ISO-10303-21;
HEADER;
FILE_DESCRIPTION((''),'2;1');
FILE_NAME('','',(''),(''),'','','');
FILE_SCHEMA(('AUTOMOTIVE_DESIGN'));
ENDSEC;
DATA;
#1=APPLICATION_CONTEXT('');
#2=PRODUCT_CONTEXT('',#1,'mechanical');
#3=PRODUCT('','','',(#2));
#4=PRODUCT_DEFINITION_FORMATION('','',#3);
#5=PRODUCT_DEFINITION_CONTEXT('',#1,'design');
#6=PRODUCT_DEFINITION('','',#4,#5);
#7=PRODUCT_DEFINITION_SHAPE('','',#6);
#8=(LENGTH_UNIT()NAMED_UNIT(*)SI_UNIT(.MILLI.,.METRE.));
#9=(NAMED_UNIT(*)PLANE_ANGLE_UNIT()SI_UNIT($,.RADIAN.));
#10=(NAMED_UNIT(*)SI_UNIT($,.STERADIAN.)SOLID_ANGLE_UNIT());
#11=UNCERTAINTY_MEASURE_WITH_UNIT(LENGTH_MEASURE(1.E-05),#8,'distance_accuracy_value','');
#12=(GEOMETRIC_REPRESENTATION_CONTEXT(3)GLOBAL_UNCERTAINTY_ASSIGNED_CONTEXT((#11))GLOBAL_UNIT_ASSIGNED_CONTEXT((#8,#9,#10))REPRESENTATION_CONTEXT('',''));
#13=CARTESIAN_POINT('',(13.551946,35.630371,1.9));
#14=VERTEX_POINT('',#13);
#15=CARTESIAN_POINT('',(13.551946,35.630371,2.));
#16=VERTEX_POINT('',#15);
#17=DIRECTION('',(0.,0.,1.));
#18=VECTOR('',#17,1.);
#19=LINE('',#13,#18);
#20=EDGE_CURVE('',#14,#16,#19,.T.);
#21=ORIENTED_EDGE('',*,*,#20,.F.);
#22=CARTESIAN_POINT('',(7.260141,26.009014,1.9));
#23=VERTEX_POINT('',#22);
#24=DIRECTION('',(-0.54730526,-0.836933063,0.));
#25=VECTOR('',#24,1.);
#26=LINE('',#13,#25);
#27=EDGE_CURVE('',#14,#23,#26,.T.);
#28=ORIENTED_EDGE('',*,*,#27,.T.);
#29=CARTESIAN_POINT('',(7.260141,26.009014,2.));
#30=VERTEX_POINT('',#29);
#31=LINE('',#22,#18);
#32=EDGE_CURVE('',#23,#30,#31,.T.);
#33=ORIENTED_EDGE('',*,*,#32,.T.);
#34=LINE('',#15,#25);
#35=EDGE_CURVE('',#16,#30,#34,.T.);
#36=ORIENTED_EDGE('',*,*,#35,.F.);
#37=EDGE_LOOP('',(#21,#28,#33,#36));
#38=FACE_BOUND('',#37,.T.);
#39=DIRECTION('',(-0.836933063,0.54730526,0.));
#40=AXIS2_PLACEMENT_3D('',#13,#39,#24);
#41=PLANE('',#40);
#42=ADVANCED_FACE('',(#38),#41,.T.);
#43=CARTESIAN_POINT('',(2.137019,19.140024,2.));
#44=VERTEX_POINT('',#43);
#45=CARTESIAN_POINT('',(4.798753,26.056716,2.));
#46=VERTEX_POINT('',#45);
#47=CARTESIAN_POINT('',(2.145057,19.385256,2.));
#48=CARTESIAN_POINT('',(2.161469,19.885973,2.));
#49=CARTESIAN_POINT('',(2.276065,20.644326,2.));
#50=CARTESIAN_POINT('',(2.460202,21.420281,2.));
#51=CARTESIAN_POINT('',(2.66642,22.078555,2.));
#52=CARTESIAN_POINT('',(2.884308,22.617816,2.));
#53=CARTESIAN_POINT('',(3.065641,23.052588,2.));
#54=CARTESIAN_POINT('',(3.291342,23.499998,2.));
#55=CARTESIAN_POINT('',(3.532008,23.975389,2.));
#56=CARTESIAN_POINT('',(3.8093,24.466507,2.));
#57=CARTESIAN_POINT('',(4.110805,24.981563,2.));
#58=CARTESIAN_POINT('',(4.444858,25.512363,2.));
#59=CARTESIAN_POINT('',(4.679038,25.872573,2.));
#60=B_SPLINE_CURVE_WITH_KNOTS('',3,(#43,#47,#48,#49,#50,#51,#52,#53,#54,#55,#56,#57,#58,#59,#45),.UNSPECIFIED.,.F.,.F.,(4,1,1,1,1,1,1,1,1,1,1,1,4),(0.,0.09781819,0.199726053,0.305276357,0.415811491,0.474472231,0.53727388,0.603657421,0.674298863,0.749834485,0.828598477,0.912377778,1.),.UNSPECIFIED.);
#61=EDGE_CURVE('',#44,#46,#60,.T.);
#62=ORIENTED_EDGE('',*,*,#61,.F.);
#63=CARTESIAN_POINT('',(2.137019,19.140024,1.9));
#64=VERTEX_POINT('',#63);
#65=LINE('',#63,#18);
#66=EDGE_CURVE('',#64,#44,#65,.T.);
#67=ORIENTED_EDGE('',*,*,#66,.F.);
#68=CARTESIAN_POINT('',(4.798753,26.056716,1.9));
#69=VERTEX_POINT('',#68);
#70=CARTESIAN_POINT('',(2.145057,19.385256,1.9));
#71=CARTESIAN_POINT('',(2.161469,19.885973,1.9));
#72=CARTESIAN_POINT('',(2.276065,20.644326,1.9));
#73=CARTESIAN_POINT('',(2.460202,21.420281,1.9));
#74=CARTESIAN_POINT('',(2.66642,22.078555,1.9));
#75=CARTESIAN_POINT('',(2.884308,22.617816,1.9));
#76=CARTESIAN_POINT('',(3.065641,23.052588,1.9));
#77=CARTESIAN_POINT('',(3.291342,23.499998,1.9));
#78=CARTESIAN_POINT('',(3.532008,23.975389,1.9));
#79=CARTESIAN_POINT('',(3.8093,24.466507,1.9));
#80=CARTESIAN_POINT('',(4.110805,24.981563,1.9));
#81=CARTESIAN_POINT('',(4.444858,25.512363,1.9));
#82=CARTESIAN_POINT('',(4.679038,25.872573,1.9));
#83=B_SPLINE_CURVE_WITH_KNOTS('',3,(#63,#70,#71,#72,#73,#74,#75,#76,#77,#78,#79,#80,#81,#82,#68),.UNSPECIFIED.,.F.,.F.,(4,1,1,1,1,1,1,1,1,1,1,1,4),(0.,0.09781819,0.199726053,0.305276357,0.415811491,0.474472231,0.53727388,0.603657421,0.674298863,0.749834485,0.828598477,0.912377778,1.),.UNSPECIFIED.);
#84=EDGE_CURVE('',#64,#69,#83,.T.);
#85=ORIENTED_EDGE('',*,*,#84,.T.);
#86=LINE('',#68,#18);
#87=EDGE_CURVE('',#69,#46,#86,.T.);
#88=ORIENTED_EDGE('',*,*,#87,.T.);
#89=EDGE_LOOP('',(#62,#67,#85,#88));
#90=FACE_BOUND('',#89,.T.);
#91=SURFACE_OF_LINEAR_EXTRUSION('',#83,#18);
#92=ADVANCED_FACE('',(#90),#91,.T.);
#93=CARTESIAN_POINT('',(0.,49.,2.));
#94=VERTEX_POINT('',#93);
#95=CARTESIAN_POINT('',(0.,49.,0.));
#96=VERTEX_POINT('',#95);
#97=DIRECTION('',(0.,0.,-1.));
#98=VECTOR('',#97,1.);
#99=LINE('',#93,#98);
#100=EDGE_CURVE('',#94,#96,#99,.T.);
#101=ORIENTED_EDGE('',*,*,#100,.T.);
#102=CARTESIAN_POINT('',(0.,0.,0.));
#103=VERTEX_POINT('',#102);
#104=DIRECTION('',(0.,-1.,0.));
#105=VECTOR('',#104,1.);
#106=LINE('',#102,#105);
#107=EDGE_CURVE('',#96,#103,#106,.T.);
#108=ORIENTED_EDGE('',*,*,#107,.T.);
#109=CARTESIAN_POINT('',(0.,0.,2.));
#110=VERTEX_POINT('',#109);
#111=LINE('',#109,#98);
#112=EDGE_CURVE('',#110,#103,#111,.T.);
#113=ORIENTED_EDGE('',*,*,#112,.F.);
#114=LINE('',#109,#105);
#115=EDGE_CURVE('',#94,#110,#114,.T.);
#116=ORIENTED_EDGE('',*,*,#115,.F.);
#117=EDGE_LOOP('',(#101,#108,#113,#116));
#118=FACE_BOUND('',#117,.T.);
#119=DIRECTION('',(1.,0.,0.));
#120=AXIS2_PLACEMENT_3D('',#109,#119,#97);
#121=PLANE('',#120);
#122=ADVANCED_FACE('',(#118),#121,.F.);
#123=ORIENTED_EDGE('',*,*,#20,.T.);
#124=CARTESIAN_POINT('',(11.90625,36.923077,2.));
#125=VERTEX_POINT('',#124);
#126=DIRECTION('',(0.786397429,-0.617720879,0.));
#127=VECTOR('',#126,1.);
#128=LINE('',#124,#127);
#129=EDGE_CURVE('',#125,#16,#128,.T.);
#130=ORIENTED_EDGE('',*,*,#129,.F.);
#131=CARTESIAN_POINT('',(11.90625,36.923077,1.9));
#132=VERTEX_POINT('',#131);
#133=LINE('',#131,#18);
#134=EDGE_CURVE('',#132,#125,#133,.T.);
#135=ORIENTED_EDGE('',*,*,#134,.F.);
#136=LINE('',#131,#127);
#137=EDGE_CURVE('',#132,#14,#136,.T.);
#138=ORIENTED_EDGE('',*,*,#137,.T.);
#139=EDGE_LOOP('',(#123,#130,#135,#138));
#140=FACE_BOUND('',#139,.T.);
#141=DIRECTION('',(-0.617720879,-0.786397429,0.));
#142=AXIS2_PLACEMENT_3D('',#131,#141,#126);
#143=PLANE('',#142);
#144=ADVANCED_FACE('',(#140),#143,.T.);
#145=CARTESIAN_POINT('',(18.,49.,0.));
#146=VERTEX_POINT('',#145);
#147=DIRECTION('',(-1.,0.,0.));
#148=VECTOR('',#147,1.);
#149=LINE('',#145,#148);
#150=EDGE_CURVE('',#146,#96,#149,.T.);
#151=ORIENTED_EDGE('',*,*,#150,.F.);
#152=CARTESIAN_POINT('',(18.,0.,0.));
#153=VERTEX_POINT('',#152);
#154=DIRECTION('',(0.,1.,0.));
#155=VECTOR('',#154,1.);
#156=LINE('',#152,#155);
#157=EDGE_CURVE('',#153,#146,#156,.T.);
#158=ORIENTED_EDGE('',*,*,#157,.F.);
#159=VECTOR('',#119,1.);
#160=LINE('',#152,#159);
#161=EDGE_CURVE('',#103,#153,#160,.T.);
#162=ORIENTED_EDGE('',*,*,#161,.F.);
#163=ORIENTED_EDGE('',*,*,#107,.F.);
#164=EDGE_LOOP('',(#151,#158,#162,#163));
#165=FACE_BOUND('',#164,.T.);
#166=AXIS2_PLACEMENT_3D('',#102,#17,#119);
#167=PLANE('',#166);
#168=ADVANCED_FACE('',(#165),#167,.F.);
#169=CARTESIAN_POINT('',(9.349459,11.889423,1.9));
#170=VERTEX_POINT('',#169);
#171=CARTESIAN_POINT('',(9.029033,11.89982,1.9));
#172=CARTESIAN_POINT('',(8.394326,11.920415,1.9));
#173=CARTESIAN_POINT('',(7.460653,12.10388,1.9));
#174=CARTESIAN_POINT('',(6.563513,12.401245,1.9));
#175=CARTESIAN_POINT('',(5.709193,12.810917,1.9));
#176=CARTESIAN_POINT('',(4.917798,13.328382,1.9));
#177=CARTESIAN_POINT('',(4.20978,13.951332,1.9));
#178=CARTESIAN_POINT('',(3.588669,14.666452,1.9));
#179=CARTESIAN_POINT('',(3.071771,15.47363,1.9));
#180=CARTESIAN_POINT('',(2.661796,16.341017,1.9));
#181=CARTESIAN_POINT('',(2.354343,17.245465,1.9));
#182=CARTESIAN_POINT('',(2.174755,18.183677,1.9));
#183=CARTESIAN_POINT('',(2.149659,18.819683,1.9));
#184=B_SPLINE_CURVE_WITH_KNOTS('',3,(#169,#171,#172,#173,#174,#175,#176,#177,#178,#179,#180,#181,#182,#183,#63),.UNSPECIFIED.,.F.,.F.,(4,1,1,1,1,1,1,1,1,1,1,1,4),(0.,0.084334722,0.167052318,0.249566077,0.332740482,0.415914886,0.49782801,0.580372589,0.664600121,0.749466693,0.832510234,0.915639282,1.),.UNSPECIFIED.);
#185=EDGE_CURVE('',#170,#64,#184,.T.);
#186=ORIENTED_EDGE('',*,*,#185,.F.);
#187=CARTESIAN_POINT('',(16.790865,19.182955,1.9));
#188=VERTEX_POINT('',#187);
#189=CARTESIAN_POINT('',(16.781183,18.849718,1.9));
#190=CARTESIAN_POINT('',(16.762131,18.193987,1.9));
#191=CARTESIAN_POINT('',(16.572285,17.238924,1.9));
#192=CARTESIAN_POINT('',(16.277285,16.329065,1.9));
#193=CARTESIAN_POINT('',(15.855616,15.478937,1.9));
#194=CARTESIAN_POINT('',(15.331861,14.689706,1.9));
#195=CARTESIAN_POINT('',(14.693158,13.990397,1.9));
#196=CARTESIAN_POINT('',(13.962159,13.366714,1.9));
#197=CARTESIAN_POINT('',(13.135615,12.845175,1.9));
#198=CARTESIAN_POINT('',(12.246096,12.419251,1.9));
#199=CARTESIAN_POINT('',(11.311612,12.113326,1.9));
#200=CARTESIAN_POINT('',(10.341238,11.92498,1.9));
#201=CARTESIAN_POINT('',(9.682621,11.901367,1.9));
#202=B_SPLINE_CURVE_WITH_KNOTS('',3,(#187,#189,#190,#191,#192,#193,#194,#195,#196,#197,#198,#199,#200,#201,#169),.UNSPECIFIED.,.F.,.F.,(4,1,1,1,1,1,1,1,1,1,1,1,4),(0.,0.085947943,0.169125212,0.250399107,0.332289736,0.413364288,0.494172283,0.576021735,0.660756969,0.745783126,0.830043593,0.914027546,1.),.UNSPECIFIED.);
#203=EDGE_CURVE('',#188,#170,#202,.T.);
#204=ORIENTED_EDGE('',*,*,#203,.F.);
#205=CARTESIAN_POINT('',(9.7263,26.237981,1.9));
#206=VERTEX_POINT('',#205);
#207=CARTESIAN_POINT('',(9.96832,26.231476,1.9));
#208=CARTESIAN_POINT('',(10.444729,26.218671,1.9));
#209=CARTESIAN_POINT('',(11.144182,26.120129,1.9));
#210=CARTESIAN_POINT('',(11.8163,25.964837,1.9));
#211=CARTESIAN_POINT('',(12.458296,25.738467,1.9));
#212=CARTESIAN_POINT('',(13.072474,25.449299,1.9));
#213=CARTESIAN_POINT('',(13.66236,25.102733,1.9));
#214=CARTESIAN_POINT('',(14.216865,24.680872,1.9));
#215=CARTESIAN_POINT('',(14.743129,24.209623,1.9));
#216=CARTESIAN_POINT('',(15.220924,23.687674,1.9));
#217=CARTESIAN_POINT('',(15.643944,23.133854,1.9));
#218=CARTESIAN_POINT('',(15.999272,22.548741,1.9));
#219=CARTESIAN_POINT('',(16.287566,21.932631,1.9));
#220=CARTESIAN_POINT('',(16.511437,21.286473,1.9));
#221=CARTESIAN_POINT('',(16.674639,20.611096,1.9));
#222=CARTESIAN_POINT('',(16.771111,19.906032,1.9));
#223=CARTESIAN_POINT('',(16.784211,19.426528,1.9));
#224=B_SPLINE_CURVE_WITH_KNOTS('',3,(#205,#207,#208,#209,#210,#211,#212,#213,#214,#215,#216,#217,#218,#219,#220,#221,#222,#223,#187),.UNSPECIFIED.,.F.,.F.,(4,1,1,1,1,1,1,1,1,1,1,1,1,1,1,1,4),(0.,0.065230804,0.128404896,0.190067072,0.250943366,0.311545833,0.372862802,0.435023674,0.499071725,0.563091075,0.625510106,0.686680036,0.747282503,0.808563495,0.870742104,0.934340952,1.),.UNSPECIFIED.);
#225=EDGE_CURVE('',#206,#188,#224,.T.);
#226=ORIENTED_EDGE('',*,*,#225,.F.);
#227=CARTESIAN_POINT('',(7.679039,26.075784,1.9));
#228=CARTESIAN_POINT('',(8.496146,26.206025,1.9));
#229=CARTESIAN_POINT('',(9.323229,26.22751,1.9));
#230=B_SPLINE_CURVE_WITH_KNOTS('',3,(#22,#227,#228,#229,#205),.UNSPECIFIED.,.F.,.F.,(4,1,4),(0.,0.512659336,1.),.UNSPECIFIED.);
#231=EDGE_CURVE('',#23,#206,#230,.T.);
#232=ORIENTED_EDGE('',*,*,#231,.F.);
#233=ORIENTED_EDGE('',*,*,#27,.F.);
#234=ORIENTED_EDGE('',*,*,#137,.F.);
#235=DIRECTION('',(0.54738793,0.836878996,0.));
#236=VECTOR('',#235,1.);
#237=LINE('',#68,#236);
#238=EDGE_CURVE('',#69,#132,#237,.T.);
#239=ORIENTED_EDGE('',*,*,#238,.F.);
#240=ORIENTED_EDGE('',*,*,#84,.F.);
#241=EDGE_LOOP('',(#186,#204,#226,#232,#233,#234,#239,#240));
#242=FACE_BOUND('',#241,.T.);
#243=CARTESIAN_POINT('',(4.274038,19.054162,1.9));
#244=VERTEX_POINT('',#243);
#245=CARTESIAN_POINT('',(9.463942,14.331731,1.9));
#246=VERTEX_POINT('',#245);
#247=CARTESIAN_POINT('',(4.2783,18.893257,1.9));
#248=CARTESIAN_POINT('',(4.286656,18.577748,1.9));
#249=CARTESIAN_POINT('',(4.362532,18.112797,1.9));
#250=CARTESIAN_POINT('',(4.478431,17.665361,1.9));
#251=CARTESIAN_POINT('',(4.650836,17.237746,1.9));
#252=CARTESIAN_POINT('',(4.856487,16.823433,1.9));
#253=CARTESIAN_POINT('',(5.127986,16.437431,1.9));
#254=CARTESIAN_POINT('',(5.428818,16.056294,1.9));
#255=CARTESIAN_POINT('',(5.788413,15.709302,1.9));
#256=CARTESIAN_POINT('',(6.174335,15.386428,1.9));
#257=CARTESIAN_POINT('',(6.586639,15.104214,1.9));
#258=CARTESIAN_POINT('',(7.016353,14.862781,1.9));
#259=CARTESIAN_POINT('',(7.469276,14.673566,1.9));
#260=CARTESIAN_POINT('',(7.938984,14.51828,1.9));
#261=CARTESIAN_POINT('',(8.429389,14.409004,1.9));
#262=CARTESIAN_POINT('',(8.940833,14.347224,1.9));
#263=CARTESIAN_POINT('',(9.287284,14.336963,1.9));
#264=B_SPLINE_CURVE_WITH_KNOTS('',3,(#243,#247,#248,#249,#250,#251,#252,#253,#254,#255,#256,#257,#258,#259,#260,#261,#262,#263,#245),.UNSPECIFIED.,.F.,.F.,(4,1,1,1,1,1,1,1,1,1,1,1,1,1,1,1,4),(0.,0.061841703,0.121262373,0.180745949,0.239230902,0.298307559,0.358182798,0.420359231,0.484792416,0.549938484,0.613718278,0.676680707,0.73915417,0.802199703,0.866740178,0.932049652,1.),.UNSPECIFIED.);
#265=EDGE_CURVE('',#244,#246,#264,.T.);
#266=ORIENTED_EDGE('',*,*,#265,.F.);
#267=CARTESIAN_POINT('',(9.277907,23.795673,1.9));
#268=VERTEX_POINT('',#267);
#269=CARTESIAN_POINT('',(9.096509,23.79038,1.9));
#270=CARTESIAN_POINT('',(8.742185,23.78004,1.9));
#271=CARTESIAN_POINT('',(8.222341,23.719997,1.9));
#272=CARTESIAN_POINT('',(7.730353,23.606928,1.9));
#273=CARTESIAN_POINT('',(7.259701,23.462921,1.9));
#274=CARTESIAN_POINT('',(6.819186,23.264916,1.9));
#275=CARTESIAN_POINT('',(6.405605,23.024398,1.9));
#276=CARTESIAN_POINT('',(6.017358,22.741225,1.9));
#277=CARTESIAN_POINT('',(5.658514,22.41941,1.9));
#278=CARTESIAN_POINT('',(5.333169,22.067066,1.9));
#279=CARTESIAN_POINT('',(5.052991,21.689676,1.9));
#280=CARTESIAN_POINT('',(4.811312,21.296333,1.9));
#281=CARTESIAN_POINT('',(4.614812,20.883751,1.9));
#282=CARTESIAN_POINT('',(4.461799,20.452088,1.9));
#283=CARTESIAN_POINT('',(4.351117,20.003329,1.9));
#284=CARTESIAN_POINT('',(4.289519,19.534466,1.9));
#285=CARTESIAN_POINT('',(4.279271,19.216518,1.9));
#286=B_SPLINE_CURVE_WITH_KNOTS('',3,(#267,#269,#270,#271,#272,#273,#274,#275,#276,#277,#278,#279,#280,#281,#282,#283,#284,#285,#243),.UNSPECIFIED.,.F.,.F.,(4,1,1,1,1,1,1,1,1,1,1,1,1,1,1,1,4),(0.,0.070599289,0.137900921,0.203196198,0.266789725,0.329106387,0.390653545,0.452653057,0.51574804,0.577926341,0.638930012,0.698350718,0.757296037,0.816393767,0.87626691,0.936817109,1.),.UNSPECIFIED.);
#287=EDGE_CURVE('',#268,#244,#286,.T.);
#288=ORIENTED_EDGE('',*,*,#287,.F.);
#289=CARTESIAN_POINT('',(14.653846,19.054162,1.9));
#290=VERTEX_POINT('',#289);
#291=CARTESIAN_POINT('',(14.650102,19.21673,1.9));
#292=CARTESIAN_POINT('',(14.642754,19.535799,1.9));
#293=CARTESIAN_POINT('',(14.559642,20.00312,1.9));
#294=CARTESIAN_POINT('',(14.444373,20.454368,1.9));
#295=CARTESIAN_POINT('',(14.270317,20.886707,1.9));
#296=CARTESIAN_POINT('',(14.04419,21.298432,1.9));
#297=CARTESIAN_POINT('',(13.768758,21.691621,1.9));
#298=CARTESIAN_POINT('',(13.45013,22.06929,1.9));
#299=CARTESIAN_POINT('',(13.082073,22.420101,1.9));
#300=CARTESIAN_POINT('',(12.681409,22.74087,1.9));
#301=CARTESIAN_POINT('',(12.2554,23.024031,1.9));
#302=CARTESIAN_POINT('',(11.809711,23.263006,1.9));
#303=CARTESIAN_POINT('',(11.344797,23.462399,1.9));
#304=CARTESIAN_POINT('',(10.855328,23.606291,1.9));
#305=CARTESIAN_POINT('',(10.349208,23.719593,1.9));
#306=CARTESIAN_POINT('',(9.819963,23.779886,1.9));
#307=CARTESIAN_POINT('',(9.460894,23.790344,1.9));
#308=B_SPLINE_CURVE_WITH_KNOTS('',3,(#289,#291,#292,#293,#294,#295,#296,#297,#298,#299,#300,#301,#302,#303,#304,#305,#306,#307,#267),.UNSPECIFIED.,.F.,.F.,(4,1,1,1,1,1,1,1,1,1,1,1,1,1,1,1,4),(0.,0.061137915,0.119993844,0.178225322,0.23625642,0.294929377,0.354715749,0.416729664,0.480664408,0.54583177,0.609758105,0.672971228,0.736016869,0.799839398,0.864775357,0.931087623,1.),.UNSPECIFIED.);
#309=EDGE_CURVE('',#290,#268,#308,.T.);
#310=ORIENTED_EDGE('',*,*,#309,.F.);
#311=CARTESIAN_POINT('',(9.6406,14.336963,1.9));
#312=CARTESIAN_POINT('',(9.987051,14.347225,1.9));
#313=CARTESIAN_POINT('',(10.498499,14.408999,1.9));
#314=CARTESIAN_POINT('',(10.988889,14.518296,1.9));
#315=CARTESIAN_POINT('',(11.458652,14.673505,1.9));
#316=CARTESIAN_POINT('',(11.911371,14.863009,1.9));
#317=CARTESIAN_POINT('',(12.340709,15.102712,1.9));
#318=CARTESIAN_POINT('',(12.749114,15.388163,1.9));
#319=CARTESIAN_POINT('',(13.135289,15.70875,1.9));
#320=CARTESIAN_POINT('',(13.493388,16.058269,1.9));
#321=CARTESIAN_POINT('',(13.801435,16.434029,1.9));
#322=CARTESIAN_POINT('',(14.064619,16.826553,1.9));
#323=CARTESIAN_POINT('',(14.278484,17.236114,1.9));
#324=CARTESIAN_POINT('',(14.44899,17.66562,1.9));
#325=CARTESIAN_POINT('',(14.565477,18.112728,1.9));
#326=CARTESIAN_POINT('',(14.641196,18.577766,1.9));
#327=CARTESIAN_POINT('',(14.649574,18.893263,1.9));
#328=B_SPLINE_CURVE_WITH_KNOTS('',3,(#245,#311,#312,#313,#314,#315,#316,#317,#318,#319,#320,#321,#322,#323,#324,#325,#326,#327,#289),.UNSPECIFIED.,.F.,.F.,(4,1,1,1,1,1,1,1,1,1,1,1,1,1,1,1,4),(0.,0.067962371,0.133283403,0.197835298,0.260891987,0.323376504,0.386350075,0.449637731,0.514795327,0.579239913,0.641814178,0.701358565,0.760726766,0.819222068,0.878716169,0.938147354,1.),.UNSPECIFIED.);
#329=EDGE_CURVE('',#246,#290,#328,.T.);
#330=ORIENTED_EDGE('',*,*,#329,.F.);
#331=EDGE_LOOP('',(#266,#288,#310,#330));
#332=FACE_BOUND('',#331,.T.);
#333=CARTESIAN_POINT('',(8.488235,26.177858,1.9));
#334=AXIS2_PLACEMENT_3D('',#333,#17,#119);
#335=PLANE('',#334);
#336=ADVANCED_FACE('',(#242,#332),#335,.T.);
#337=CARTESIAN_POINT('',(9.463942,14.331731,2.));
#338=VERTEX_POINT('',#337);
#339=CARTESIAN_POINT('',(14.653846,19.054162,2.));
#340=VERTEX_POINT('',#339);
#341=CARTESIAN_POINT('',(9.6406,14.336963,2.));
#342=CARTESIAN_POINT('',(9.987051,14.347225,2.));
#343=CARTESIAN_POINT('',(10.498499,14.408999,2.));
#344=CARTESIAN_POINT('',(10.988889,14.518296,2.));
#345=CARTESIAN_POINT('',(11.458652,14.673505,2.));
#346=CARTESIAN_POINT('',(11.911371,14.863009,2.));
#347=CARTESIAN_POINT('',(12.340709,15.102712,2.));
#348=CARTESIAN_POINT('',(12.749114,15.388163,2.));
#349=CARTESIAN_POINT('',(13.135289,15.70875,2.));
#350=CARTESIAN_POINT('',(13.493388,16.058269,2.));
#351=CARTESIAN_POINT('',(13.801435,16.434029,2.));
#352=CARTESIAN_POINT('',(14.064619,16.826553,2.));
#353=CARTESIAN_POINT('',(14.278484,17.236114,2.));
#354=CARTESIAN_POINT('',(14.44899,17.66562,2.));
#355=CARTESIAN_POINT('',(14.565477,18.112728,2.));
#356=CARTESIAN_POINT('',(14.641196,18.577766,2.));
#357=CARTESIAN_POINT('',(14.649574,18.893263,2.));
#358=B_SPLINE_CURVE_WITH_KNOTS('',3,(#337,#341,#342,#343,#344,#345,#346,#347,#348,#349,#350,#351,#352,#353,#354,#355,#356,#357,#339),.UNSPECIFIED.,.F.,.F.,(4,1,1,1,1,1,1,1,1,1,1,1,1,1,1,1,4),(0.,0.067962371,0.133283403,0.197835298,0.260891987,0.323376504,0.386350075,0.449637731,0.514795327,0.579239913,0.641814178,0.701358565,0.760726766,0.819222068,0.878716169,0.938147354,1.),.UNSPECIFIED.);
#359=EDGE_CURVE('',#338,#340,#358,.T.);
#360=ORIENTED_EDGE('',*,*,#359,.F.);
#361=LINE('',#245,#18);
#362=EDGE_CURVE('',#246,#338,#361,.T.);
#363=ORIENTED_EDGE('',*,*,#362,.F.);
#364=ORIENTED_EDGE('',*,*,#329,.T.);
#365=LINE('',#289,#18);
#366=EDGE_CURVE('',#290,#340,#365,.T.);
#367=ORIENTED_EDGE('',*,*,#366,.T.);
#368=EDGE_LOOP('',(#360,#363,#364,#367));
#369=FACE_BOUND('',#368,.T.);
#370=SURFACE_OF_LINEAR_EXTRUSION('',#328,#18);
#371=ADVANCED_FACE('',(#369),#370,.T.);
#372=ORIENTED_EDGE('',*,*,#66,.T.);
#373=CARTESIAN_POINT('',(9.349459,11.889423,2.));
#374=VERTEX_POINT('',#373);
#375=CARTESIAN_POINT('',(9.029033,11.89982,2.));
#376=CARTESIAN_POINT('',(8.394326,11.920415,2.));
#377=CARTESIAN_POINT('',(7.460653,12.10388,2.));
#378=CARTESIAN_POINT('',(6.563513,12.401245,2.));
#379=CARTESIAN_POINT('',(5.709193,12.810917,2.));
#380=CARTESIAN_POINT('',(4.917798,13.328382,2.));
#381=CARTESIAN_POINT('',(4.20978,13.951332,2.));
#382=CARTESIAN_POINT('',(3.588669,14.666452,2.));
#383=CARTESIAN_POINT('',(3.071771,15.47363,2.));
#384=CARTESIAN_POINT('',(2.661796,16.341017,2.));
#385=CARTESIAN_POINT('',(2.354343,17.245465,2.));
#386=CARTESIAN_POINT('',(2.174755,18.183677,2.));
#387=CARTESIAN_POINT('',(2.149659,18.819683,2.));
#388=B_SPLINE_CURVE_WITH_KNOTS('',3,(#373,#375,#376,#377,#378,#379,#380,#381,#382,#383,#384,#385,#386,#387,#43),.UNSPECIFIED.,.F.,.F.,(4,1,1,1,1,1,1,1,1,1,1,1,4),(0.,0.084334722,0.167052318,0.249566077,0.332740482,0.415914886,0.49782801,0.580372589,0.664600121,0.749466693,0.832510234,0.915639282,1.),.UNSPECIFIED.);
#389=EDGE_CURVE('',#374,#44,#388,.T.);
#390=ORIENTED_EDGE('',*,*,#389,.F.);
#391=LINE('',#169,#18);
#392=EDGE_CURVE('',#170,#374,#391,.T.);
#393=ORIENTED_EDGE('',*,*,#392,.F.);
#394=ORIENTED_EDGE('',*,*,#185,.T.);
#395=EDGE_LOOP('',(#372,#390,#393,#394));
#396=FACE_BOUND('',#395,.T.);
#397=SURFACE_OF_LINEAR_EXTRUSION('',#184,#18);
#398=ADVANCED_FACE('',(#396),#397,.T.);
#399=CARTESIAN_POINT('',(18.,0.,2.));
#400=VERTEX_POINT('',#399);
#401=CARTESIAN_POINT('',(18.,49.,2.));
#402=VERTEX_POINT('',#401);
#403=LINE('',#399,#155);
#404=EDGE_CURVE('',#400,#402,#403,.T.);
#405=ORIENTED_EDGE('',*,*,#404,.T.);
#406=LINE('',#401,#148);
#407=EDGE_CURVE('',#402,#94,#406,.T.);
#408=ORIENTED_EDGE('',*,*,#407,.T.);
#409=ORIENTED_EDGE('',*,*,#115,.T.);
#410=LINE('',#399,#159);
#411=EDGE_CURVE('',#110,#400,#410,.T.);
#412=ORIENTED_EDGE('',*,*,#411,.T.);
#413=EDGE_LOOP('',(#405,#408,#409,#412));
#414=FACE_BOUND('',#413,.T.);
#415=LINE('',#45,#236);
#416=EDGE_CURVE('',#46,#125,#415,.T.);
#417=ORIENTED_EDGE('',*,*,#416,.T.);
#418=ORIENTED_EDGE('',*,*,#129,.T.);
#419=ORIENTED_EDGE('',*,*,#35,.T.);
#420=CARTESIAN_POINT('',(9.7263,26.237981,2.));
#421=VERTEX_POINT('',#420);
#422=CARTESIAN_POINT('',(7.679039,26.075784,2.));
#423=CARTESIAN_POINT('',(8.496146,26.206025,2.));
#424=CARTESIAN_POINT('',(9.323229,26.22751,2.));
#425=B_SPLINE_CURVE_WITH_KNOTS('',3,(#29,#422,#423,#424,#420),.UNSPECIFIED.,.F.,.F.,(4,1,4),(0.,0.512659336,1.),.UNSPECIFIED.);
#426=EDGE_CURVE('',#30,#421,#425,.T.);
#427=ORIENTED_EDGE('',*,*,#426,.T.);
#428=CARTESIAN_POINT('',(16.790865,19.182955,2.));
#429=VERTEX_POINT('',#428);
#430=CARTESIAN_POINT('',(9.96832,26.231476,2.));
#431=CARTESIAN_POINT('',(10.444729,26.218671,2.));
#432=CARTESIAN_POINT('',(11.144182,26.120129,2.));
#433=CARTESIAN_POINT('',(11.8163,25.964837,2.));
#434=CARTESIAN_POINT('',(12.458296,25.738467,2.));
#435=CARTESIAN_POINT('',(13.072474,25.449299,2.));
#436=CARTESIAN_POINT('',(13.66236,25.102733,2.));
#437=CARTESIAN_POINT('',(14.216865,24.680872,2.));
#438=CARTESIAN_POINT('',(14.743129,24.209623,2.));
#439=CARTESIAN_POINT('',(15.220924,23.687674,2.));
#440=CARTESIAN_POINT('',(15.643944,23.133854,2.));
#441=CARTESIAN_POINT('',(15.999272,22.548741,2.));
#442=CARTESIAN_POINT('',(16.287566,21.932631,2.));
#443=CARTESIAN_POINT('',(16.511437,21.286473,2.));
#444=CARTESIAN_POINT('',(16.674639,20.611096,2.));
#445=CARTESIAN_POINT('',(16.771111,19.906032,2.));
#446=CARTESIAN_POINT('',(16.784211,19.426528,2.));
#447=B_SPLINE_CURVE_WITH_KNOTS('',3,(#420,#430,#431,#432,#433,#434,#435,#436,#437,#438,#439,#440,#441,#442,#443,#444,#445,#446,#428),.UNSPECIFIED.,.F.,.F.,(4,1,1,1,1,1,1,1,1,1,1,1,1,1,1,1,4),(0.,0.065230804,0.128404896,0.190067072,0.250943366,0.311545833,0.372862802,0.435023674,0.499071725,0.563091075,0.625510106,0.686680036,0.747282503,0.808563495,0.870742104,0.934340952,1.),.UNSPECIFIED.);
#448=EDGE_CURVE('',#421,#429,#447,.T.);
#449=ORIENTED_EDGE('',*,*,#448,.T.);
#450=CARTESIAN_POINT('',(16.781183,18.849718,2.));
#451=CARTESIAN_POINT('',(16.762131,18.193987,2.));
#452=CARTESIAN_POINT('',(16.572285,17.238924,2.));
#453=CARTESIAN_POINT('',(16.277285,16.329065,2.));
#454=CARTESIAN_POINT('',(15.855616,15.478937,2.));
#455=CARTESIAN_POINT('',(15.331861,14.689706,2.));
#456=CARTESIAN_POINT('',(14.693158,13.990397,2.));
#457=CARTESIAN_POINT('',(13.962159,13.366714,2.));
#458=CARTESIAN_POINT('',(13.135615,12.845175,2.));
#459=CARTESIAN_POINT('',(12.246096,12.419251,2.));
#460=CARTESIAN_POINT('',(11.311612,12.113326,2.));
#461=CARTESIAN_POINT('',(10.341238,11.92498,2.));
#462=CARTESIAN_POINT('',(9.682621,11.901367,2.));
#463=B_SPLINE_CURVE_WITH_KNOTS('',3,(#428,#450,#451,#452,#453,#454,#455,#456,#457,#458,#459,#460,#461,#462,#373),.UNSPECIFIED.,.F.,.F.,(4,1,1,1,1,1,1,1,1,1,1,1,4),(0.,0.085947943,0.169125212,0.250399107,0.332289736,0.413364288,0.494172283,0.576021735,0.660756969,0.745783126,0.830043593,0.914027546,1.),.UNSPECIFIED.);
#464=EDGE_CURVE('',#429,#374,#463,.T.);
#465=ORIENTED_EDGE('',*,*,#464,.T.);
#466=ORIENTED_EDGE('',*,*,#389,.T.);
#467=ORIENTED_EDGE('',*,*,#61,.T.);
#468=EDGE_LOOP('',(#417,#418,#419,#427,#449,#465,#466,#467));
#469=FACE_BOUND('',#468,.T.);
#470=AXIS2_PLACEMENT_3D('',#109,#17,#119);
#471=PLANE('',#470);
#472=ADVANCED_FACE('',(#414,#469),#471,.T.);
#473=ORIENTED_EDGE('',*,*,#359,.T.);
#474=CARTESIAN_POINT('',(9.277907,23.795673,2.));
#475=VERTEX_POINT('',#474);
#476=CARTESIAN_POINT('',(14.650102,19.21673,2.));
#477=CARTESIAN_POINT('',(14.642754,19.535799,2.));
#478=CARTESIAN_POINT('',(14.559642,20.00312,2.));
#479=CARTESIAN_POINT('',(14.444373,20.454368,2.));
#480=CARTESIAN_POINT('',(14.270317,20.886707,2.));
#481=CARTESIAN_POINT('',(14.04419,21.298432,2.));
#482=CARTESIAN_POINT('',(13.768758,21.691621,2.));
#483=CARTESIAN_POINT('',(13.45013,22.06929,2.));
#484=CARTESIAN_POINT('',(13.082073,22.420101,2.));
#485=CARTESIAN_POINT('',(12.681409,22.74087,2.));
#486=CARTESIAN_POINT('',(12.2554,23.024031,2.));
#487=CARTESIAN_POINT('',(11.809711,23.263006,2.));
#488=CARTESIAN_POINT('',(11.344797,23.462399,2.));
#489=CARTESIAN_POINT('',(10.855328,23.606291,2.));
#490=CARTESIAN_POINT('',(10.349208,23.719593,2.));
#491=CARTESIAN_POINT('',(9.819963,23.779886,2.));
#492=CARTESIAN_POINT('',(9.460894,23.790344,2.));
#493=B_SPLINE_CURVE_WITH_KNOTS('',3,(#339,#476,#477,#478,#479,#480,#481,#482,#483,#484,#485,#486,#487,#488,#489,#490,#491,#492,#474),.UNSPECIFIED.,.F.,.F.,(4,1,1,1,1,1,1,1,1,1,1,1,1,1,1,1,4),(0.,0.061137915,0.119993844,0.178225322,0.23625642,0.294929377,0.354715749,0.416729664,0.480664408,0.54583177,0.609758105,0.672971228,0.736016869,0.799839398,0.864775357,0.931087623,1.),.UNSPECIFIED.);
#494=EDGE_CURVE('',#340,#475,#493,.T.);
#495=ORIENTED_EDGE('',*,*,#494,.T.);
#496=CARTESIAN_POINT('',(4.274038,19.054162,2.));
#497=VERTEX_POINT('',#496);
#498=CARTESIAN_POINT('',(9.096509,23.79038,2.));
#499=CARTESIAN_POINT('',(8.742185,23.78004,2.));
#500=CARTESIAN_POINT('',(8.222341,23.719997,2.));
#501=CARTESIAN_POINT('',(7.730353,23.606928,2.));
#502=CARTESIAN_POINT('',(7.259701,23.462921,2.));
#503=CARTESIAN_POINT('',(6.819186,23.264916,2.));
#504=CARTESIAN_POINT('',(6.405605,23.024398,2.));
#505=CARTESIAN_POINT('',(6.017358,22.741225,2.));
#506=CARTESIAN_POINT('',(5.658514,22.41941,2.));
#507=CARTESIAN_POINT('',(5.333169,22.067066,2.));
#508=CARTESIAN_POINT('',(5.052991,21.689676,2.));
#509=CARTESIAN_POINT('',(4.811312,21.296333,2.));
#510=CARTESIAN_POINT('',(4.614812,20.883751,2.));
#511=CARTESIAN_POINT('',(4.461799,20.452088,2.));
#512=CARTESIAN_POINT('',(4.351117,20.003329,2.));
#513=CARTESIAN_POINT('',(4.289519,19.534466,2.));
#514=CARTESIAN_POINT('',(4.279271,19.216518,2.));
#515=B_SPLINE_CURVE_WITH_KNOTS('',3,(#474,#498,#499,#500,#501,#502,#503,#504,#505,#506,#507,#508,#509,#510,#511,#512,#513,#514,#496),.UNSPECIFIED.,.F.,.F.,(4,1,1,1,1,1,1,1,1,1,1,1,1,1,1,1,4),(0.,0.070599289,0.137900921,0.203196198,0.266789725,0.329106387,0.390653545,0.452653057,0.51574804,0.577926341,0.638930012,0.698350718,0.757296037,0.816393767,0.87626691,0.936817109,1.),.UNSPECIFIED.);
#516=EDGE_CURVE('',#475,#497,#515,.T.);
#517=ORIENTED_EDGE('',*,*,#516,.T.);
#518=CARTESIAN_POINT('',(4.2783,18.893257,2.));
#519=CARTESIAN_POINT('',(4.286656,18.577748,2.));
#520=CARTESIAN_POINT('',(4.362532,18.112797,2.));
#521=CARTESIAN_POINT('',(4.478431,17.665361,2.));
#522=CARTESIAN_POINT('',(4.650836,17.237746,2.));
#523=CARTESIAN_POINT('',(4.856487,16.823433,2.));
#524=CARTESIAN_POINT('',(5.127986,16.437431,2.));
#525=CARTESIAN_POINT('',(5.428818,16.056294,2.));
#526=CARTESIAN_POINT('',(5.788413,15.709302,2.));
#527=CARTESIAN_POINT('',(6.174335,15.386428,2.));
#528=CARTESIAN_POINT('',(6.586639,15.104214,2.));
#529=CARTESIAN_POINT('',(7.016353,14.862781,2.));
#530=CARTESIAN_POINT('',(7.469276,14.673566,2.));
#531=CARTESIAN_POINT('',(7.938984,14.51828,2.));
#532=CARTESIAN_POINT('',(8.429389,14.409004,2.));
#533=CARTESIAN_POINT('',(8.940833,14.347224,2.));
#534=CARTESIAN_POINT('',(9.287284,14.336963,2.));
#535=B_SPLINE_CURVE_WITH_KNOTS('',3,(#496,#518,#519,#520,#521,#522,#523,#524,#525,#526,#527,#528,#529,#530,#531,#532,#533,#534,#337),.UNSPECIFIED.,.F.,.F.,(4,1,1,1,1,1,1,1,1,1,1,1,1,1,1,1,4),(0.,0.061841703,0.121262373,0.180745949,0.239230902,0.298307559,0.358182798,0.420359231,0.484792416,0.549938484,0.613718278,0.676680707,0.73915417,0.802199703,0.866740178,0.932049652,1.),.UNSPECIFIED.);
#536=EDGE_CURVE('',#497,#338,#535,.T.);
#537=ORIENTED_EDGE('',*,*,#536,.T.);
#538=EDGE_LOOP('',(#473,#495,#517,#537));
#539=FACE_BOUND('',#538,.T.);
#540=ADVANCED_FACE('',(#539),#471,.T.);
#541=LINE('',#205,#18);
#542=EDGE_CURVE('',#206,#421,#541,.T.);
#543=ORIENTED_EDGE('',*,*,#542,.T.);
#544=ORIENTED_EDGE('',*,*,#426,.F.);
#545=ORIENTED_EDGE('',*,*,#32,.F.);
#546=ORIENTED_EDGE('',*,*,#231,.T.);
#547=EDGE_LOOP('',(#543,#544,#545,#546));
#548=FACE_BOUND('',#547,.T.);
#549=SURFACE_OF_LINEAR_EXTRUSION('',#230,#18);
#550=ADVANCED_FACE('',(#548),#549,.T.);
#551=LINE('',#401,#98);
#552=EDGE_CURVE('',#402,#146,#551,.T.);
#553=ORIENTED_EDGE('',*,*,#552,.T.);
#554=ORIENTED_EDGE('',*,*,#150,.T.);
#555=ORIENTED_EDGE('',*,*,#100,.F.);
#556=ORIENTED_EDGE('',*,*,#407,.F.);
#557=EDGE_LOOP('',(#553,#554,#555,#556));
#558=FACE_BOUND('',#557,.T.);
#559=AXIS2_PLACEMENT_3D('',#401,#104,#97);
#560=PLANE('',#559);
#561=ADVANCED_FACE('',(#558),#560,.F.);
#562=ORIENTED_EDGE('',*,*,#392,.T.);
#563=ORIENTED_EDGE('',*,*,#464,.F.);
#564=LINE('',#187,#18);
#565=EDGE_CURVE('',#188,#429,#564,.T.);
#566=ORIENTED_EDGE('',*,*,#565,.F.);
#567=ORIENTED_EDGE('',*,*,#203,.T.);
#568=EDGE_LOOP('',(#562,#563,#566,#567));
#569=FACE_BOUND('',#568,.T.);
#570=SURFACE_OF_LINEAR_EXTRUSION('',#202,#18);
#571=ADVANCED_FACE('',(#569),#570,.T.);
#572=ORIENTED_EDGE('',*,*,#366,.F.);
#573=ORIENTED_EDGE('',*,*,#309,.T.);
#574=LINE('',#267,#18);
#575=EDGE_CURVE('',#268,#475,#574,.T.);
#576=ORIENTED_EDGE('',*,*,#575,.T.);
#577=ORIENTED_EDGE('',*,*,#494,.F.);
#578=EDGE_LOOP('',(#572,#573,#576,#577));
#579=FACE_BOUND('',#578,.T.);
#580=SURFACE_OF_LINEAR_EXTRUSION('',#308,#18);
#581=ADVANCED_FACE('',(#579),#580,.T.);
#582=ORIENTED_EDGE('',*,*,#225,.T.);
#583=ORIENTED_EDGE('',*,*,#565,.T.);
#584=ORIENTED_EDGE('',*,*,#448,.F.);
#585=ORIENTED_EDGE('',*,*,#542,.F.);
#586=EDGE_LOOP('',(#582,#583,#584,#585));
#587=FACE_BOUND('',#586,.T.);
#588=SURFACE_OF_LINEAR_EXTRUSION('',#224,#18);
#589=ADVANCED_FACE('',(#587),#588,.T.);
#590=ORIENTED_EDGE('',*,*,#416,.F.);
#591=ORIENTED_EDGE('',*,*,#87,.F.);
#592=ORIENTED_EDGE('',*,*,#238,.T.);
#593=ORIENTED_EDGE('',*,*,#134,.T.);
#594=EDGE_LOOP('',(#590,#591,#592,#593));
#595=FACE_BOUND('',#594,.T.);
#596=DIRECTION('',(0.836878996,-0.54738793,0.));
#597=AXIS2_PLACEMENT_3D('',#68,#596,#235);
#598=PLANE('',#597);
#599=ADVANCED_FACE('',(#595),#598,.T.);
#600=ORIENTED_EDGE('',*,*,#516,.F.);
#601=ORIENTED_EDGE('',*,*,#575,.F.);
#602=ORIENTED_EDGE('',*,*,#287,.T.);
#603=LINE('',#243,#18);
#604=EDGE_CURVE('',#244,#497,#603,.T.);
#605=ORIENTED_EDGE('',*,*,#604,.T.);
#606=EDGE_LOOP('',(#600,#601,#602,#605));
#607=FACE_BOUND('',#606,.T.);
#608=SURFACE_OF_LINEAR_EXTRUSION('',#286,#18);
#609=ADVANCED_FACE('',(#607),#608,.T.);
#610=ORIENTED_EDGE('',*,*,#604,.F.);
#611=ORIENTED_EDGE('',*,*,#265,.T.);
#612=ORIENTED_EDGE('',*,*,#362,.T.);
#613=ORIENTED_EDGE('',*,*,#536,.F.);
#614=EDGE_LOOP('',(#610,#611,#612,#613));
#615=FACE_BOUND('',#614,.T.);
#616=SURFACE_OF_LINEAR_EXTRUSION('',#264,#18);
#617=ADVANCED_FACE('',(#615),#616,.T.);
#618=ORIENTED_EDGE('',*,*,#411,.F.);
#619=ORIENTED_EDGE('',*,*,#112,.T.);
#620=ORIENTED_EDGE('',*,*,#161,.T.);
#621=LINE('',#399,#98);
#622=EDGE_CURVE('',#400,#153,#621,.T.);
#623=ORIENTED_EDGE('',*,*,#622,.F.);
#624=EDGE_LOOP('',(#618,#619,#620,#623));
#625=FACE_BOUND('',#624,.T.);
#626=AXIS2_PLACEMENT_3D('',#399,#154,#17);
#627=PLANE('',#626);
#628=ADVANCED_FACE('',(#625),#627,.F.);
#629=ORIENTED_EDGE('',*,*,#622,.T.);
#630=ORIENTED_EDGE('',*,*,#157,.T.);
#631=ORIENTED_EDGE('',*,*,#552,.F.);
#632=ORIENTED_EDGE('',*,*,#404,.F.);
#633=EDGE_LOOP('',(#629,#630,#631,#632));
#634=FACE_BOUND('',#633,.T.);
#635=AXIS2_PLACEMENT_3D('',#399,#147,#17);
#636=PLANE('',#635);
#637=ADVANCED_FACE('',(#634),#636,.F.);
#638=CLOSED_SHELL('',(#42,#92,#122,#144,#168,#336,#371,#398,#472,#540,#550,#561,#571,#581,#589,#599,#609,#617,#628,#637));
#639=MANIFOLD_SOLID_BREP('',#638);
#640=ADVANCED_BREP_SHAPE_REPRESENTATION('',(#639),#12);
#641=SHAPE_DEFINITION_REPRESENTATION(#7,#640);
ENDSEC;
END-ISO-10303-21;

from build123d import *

# Parameters (mm, degrees)
SKETCH_1_W          = 18
SKETCH_1_H          = 49
EXTRUDE_1_DEPTH     = 2
CUT_EXTRUDE_1_DEPTH = 0.1


with BuildPart() as part:
    # ｽｹｯﾁ1 → ﾎﾞｽ - 押し出し1 (new body)
    with BuildSketch(Plane.XY):
        with Locations((9, 24.5)):
            Rectangle(SKETCH_1_W, SKETCH_1_H)
    extrude(amount=EXTRUDE_1_DEPTH)

    # ｽｹｯﾁ2 → ｶｯﾄ - 押し出し1 (cut)
    with BuildSketch(Plane.XY.offset(2)):
        with BuildLine():
            Line((11.90625, 36.923076923), (13.551945613, 35.630371094))
            Line((13.551945613, 35.630371094), (7.260141226, 26.009014423))
            add(Edge.make_bspline(
                [(7.260141226, 26.009014423), (7.679039003, 26.075783725), (8.496146481, 26.206024798), (9.323228755, 26.227510105), (9.726299579, 26.237980769)],
                knots=[0, 0, 0, 0, 1.025318673, 2, 2, 2, 2], degree=3))
            add(Edge.make_bspline(
                [(9.726299579, 26.237980769), (9.968319599, 26.231475795), (10.444728806, 26.218670947), (11.144182228, 26.120129034), (11.81629981, 25.964836755), (12.458295779, 25.738466585), (13.072474459, 25.449298781), (13.662360404, 25.102732539), (14.216865151, 24.680872463), (14.743129424, 24.209623389), (15.220924498, 23.687673905), (15.643943733, 23.133854097), (15.999272441, 22.54874096), (16.287566443, 21.932630854), (16.511437135, 21.286473499), (16.674638792, 20.611095621), (16.771110664, 19.906031503), (16.784210878, 19.426528203), (16.790865385, 19.182955228)],
                knots=[0, 0, 0, 0, 1.04369286, 2.054478336, 3.041073146, 4.015093852, 4.984733326, 5.965804835, 6.960378782, 7.985147595, 9.009457201, 10.008161701, 10.986880575, 11.956520048, 12.937015923, 13.931873656, 14.949455224, 16, 16, 16, 16], degree=3))
            add(Edge.make_bspline(
                [(16.790865385, 19.182955228), (16.781183189, 18.849718314), (16.762130919, 18.19398693), (16.57228545, 17.238923981), (16.277285009, 16.329065259), (15.855616468, 15.478937432), (15.331861327, 14.689705664), (14.693158419, 13.990397408), (13.962158972, 13.366713762), (13.135614863, 12.845174977), (12.246095768, 12.419250648), (11.311611643, 12.113326412), (10.341237665, 11.924979951), (9.682620599, 11.901367457), (9.349459135, 11.889423077)],
                knots=[0, 0, 0, 0, 1.031375318, 2.029502543, 3.004789286, 3.987476834, 4.960371455, 5.9300674, 6.912260825, 7.929083631, 8.949397511, 9.960523116, 10.96833055, 12, 12, 12, 12], degree=3))
            add(Edge.make_bspline(
                [(9.349459135, 11.889423077), (9.029033368, 11.899820334), (8.394326026, 11.920415479), (7.460652908, 12.103880164), (6.56351345, 12.40124456), (5.709193198, 12.810916705), (4.917797599, 13.328381944), (4.209779609, 13.95133245), (3.5886695, 14.666452204), (3.071770739, 15.473630281), (2.661796152, 16.341017313), (2.354343269, 17.245464752), (2.174754543, 18.183677128), (2.149659183, 18.819682735), (2.137019231, 19.140024038)],
                knots=[0, 0, 0, 0, 1.012016664, 2.004627821, 2.994792927, 3.992885782, 4.990978636, 5.973936114, 6.964471063, 7.975201453, 8.993600317, 9.990122807, 10.98767138, 12, 12, 12, 12], degree=3))
            add(Edge.make_bspline(
                [(2.137019231, 19.140024038), (2.145057276, 19.385255935), (2.161469429, 19.885972612), (2.276064639, 20.644326088), (2.460201903, 21.420280769), (2.666419829, 22.078554836), (2.884308355, 22.617816262), (3.065640812, 23.052588225), (3.291342463, 23.499998384), (3.532007789, 23.975388657), (3.809300058, 24.466507405), (4.110804744, 24.981562727), (4.444857726, 25.512363271), (4.679037762, 25.872572885), (4.798753005, 26.056715745)],
                knots=[0, 0, 0, 0, 1.173818275, 2.396712641, 3.66331629, 4.989737886, 5.693666774, 6.447286557, 7.243889047, 8.091586357, 8.998013824, 9.943181721, 10.948533338, 12, 12, 12, 12], degree=3))
            Line((4.798753005, 26.056715745), (11.90625, 36.923076923))
        make_face()
        with BuildLine():
            add(Edge.make_bspline(
                [(9.277907151, 23.795673077), (9.096508664, 23.790379601), (8.742184724, 23.780039905), (8.22234142, 23.719996673), (7.730353048, 23.606927674), (7.259701478, 23.462921022), (6.819185857, 23.264916277), (6.405604643, 23.024397787), (6.017358486, 22.741225129), (5.658513965, 22.419410002), (5.333169469, 22.06706642), (5.052990705, 21.689675564), (4.811311518, 21.296332503), (4.614812001, 20.883750718), (4.461799164, 20.452087926), (4.351116957, 20.003329462), (4.289519114, 19.534466057), (4.27927136, 19.216518137), (4.274038462, 19.054161659)],
                knots=[0, 0, 0, 0, 1.129588631, 2.206414736, 3.251139165, 4.268635594, 5.265702196, 6.250456724, 7.242448911, 8.251968645, 9.246821453, 10.222880186, 11.173611482, 12.116736599, 13.062300278, 14.020270554, 14.989073742, 16, 16, 16, 16], degree=3))
            add(Edge.make_bspline(
                [(4.274038462, 19.054161659), (4.278299957, 18.893257331), (4.286656114, 18.577747899), (4.362531719, 18.11279741), (4.478431118, 17.665361158), (4.650836312, 17.237745816), (4.856487104, 16.823433367), (5.127985828, 16.437430799), (5.428817888, 16.056294251), (5.7884134, 15.709302097), (6.174334852, 15.386427565), (6.586639462, 15.104213697), (7.01635276, 14.862780982), (7.469276185, 14.673566193), (7.938983762, 14.518279527), (8.42938896, 14.409004105), (8.940832852, 14.347224098), (9.287283894, 14.336962995), (9.463942308, 14.331730769)],
                knots=[0, 0, 0, 0, 0.989467248, 1.94019797, 2.891935182, 3.827694429, 4.772920941, 5.730924762, 6.725747692, 7.756678648, 8.79901574, 9.819492441, 10.826891316, 11.826466727, 12.835195252, 13.867842842, 14.912794438, 16, 16, 16, 16], degree=3))
            add(Edge.make_bspline(
                [(9.463942308, 14.331730769), (9.640600432, 14.336963405), (9.987050907, 14.347225313), (10.498498913, 14.408999488), (10.988888902, 14.518296468), (11.458651755, 14.67350478), (11.911371134, 14.863008803), (12.340708615, 15.102711685), (12.749114037, 15.388163129), (13.13528883, 15.708750328), (13.493387589, 16.058269196), (13.80143479, 16.434028557), (14.064618931, 16.826553095), (14.278483668, 17.236113739), (14.448989953, 17.665619717), (14.565477078, 18.112728143), (14.64119599, 18.577766034), (14.649573678, 18.893263456), (14.653846154, 19.054161659)],
                knots=[0, 0, 0, 0, 1.087397944, 2.132534446, 3.165364764, 4.174271784, 5.174024072, 6.181601208, 7.194203697, 8.236725232, 9.267838612, 10.269026844, 11.221737037, 12.171628256, 13.107553087, 14.05945871, 15.010357665, 16, 16, 16, 16], degree=3))
            add(Edge.make_bspline(
                [(14.653846154, 19.054161659), (14.650102196, 19.216729943), (14.642754025, 19.535798614), (14.559641946, 20.003119731), (14.444373295, 20.454368009), (14.270317319, 20.886707412), (14.044190112, 21.298431846), (13.768758361, 21.69162113), (13.450129624, 22.069289743), (13.082073149, 22.420100993), (12.681409236, 22.740869506), (12.255399628, 23.02403113), (11.80971145, 23.263006418), (11.344796592, 23.462399382), (10.855328051, 23.60629134), (10.349208064, 23.719592868), (9.819963396, 23.779886239), (9.460893971, 23.790343772), (9.277907151, 23.795673077)],
                knots=[0, 0, 0, 0, 0.978206639, 1.919901502, 2.851605144, 3.780102724, 4.718870031, 5.675451981, 6.667674623, 7.690630536, 8.733308323, 9.756129687, 10.767539656, 11.776269907, 12.797430371, 13.836405707, 14.897401972, 16, 16, 16, 16], degree=3))
        make_face(mode=Mode.SUBTRACT)
    extrude(amount=-CUT_EXTRUDE_1_DEPTH, mode=Mode.SUBTRACT)


solid = part.part
